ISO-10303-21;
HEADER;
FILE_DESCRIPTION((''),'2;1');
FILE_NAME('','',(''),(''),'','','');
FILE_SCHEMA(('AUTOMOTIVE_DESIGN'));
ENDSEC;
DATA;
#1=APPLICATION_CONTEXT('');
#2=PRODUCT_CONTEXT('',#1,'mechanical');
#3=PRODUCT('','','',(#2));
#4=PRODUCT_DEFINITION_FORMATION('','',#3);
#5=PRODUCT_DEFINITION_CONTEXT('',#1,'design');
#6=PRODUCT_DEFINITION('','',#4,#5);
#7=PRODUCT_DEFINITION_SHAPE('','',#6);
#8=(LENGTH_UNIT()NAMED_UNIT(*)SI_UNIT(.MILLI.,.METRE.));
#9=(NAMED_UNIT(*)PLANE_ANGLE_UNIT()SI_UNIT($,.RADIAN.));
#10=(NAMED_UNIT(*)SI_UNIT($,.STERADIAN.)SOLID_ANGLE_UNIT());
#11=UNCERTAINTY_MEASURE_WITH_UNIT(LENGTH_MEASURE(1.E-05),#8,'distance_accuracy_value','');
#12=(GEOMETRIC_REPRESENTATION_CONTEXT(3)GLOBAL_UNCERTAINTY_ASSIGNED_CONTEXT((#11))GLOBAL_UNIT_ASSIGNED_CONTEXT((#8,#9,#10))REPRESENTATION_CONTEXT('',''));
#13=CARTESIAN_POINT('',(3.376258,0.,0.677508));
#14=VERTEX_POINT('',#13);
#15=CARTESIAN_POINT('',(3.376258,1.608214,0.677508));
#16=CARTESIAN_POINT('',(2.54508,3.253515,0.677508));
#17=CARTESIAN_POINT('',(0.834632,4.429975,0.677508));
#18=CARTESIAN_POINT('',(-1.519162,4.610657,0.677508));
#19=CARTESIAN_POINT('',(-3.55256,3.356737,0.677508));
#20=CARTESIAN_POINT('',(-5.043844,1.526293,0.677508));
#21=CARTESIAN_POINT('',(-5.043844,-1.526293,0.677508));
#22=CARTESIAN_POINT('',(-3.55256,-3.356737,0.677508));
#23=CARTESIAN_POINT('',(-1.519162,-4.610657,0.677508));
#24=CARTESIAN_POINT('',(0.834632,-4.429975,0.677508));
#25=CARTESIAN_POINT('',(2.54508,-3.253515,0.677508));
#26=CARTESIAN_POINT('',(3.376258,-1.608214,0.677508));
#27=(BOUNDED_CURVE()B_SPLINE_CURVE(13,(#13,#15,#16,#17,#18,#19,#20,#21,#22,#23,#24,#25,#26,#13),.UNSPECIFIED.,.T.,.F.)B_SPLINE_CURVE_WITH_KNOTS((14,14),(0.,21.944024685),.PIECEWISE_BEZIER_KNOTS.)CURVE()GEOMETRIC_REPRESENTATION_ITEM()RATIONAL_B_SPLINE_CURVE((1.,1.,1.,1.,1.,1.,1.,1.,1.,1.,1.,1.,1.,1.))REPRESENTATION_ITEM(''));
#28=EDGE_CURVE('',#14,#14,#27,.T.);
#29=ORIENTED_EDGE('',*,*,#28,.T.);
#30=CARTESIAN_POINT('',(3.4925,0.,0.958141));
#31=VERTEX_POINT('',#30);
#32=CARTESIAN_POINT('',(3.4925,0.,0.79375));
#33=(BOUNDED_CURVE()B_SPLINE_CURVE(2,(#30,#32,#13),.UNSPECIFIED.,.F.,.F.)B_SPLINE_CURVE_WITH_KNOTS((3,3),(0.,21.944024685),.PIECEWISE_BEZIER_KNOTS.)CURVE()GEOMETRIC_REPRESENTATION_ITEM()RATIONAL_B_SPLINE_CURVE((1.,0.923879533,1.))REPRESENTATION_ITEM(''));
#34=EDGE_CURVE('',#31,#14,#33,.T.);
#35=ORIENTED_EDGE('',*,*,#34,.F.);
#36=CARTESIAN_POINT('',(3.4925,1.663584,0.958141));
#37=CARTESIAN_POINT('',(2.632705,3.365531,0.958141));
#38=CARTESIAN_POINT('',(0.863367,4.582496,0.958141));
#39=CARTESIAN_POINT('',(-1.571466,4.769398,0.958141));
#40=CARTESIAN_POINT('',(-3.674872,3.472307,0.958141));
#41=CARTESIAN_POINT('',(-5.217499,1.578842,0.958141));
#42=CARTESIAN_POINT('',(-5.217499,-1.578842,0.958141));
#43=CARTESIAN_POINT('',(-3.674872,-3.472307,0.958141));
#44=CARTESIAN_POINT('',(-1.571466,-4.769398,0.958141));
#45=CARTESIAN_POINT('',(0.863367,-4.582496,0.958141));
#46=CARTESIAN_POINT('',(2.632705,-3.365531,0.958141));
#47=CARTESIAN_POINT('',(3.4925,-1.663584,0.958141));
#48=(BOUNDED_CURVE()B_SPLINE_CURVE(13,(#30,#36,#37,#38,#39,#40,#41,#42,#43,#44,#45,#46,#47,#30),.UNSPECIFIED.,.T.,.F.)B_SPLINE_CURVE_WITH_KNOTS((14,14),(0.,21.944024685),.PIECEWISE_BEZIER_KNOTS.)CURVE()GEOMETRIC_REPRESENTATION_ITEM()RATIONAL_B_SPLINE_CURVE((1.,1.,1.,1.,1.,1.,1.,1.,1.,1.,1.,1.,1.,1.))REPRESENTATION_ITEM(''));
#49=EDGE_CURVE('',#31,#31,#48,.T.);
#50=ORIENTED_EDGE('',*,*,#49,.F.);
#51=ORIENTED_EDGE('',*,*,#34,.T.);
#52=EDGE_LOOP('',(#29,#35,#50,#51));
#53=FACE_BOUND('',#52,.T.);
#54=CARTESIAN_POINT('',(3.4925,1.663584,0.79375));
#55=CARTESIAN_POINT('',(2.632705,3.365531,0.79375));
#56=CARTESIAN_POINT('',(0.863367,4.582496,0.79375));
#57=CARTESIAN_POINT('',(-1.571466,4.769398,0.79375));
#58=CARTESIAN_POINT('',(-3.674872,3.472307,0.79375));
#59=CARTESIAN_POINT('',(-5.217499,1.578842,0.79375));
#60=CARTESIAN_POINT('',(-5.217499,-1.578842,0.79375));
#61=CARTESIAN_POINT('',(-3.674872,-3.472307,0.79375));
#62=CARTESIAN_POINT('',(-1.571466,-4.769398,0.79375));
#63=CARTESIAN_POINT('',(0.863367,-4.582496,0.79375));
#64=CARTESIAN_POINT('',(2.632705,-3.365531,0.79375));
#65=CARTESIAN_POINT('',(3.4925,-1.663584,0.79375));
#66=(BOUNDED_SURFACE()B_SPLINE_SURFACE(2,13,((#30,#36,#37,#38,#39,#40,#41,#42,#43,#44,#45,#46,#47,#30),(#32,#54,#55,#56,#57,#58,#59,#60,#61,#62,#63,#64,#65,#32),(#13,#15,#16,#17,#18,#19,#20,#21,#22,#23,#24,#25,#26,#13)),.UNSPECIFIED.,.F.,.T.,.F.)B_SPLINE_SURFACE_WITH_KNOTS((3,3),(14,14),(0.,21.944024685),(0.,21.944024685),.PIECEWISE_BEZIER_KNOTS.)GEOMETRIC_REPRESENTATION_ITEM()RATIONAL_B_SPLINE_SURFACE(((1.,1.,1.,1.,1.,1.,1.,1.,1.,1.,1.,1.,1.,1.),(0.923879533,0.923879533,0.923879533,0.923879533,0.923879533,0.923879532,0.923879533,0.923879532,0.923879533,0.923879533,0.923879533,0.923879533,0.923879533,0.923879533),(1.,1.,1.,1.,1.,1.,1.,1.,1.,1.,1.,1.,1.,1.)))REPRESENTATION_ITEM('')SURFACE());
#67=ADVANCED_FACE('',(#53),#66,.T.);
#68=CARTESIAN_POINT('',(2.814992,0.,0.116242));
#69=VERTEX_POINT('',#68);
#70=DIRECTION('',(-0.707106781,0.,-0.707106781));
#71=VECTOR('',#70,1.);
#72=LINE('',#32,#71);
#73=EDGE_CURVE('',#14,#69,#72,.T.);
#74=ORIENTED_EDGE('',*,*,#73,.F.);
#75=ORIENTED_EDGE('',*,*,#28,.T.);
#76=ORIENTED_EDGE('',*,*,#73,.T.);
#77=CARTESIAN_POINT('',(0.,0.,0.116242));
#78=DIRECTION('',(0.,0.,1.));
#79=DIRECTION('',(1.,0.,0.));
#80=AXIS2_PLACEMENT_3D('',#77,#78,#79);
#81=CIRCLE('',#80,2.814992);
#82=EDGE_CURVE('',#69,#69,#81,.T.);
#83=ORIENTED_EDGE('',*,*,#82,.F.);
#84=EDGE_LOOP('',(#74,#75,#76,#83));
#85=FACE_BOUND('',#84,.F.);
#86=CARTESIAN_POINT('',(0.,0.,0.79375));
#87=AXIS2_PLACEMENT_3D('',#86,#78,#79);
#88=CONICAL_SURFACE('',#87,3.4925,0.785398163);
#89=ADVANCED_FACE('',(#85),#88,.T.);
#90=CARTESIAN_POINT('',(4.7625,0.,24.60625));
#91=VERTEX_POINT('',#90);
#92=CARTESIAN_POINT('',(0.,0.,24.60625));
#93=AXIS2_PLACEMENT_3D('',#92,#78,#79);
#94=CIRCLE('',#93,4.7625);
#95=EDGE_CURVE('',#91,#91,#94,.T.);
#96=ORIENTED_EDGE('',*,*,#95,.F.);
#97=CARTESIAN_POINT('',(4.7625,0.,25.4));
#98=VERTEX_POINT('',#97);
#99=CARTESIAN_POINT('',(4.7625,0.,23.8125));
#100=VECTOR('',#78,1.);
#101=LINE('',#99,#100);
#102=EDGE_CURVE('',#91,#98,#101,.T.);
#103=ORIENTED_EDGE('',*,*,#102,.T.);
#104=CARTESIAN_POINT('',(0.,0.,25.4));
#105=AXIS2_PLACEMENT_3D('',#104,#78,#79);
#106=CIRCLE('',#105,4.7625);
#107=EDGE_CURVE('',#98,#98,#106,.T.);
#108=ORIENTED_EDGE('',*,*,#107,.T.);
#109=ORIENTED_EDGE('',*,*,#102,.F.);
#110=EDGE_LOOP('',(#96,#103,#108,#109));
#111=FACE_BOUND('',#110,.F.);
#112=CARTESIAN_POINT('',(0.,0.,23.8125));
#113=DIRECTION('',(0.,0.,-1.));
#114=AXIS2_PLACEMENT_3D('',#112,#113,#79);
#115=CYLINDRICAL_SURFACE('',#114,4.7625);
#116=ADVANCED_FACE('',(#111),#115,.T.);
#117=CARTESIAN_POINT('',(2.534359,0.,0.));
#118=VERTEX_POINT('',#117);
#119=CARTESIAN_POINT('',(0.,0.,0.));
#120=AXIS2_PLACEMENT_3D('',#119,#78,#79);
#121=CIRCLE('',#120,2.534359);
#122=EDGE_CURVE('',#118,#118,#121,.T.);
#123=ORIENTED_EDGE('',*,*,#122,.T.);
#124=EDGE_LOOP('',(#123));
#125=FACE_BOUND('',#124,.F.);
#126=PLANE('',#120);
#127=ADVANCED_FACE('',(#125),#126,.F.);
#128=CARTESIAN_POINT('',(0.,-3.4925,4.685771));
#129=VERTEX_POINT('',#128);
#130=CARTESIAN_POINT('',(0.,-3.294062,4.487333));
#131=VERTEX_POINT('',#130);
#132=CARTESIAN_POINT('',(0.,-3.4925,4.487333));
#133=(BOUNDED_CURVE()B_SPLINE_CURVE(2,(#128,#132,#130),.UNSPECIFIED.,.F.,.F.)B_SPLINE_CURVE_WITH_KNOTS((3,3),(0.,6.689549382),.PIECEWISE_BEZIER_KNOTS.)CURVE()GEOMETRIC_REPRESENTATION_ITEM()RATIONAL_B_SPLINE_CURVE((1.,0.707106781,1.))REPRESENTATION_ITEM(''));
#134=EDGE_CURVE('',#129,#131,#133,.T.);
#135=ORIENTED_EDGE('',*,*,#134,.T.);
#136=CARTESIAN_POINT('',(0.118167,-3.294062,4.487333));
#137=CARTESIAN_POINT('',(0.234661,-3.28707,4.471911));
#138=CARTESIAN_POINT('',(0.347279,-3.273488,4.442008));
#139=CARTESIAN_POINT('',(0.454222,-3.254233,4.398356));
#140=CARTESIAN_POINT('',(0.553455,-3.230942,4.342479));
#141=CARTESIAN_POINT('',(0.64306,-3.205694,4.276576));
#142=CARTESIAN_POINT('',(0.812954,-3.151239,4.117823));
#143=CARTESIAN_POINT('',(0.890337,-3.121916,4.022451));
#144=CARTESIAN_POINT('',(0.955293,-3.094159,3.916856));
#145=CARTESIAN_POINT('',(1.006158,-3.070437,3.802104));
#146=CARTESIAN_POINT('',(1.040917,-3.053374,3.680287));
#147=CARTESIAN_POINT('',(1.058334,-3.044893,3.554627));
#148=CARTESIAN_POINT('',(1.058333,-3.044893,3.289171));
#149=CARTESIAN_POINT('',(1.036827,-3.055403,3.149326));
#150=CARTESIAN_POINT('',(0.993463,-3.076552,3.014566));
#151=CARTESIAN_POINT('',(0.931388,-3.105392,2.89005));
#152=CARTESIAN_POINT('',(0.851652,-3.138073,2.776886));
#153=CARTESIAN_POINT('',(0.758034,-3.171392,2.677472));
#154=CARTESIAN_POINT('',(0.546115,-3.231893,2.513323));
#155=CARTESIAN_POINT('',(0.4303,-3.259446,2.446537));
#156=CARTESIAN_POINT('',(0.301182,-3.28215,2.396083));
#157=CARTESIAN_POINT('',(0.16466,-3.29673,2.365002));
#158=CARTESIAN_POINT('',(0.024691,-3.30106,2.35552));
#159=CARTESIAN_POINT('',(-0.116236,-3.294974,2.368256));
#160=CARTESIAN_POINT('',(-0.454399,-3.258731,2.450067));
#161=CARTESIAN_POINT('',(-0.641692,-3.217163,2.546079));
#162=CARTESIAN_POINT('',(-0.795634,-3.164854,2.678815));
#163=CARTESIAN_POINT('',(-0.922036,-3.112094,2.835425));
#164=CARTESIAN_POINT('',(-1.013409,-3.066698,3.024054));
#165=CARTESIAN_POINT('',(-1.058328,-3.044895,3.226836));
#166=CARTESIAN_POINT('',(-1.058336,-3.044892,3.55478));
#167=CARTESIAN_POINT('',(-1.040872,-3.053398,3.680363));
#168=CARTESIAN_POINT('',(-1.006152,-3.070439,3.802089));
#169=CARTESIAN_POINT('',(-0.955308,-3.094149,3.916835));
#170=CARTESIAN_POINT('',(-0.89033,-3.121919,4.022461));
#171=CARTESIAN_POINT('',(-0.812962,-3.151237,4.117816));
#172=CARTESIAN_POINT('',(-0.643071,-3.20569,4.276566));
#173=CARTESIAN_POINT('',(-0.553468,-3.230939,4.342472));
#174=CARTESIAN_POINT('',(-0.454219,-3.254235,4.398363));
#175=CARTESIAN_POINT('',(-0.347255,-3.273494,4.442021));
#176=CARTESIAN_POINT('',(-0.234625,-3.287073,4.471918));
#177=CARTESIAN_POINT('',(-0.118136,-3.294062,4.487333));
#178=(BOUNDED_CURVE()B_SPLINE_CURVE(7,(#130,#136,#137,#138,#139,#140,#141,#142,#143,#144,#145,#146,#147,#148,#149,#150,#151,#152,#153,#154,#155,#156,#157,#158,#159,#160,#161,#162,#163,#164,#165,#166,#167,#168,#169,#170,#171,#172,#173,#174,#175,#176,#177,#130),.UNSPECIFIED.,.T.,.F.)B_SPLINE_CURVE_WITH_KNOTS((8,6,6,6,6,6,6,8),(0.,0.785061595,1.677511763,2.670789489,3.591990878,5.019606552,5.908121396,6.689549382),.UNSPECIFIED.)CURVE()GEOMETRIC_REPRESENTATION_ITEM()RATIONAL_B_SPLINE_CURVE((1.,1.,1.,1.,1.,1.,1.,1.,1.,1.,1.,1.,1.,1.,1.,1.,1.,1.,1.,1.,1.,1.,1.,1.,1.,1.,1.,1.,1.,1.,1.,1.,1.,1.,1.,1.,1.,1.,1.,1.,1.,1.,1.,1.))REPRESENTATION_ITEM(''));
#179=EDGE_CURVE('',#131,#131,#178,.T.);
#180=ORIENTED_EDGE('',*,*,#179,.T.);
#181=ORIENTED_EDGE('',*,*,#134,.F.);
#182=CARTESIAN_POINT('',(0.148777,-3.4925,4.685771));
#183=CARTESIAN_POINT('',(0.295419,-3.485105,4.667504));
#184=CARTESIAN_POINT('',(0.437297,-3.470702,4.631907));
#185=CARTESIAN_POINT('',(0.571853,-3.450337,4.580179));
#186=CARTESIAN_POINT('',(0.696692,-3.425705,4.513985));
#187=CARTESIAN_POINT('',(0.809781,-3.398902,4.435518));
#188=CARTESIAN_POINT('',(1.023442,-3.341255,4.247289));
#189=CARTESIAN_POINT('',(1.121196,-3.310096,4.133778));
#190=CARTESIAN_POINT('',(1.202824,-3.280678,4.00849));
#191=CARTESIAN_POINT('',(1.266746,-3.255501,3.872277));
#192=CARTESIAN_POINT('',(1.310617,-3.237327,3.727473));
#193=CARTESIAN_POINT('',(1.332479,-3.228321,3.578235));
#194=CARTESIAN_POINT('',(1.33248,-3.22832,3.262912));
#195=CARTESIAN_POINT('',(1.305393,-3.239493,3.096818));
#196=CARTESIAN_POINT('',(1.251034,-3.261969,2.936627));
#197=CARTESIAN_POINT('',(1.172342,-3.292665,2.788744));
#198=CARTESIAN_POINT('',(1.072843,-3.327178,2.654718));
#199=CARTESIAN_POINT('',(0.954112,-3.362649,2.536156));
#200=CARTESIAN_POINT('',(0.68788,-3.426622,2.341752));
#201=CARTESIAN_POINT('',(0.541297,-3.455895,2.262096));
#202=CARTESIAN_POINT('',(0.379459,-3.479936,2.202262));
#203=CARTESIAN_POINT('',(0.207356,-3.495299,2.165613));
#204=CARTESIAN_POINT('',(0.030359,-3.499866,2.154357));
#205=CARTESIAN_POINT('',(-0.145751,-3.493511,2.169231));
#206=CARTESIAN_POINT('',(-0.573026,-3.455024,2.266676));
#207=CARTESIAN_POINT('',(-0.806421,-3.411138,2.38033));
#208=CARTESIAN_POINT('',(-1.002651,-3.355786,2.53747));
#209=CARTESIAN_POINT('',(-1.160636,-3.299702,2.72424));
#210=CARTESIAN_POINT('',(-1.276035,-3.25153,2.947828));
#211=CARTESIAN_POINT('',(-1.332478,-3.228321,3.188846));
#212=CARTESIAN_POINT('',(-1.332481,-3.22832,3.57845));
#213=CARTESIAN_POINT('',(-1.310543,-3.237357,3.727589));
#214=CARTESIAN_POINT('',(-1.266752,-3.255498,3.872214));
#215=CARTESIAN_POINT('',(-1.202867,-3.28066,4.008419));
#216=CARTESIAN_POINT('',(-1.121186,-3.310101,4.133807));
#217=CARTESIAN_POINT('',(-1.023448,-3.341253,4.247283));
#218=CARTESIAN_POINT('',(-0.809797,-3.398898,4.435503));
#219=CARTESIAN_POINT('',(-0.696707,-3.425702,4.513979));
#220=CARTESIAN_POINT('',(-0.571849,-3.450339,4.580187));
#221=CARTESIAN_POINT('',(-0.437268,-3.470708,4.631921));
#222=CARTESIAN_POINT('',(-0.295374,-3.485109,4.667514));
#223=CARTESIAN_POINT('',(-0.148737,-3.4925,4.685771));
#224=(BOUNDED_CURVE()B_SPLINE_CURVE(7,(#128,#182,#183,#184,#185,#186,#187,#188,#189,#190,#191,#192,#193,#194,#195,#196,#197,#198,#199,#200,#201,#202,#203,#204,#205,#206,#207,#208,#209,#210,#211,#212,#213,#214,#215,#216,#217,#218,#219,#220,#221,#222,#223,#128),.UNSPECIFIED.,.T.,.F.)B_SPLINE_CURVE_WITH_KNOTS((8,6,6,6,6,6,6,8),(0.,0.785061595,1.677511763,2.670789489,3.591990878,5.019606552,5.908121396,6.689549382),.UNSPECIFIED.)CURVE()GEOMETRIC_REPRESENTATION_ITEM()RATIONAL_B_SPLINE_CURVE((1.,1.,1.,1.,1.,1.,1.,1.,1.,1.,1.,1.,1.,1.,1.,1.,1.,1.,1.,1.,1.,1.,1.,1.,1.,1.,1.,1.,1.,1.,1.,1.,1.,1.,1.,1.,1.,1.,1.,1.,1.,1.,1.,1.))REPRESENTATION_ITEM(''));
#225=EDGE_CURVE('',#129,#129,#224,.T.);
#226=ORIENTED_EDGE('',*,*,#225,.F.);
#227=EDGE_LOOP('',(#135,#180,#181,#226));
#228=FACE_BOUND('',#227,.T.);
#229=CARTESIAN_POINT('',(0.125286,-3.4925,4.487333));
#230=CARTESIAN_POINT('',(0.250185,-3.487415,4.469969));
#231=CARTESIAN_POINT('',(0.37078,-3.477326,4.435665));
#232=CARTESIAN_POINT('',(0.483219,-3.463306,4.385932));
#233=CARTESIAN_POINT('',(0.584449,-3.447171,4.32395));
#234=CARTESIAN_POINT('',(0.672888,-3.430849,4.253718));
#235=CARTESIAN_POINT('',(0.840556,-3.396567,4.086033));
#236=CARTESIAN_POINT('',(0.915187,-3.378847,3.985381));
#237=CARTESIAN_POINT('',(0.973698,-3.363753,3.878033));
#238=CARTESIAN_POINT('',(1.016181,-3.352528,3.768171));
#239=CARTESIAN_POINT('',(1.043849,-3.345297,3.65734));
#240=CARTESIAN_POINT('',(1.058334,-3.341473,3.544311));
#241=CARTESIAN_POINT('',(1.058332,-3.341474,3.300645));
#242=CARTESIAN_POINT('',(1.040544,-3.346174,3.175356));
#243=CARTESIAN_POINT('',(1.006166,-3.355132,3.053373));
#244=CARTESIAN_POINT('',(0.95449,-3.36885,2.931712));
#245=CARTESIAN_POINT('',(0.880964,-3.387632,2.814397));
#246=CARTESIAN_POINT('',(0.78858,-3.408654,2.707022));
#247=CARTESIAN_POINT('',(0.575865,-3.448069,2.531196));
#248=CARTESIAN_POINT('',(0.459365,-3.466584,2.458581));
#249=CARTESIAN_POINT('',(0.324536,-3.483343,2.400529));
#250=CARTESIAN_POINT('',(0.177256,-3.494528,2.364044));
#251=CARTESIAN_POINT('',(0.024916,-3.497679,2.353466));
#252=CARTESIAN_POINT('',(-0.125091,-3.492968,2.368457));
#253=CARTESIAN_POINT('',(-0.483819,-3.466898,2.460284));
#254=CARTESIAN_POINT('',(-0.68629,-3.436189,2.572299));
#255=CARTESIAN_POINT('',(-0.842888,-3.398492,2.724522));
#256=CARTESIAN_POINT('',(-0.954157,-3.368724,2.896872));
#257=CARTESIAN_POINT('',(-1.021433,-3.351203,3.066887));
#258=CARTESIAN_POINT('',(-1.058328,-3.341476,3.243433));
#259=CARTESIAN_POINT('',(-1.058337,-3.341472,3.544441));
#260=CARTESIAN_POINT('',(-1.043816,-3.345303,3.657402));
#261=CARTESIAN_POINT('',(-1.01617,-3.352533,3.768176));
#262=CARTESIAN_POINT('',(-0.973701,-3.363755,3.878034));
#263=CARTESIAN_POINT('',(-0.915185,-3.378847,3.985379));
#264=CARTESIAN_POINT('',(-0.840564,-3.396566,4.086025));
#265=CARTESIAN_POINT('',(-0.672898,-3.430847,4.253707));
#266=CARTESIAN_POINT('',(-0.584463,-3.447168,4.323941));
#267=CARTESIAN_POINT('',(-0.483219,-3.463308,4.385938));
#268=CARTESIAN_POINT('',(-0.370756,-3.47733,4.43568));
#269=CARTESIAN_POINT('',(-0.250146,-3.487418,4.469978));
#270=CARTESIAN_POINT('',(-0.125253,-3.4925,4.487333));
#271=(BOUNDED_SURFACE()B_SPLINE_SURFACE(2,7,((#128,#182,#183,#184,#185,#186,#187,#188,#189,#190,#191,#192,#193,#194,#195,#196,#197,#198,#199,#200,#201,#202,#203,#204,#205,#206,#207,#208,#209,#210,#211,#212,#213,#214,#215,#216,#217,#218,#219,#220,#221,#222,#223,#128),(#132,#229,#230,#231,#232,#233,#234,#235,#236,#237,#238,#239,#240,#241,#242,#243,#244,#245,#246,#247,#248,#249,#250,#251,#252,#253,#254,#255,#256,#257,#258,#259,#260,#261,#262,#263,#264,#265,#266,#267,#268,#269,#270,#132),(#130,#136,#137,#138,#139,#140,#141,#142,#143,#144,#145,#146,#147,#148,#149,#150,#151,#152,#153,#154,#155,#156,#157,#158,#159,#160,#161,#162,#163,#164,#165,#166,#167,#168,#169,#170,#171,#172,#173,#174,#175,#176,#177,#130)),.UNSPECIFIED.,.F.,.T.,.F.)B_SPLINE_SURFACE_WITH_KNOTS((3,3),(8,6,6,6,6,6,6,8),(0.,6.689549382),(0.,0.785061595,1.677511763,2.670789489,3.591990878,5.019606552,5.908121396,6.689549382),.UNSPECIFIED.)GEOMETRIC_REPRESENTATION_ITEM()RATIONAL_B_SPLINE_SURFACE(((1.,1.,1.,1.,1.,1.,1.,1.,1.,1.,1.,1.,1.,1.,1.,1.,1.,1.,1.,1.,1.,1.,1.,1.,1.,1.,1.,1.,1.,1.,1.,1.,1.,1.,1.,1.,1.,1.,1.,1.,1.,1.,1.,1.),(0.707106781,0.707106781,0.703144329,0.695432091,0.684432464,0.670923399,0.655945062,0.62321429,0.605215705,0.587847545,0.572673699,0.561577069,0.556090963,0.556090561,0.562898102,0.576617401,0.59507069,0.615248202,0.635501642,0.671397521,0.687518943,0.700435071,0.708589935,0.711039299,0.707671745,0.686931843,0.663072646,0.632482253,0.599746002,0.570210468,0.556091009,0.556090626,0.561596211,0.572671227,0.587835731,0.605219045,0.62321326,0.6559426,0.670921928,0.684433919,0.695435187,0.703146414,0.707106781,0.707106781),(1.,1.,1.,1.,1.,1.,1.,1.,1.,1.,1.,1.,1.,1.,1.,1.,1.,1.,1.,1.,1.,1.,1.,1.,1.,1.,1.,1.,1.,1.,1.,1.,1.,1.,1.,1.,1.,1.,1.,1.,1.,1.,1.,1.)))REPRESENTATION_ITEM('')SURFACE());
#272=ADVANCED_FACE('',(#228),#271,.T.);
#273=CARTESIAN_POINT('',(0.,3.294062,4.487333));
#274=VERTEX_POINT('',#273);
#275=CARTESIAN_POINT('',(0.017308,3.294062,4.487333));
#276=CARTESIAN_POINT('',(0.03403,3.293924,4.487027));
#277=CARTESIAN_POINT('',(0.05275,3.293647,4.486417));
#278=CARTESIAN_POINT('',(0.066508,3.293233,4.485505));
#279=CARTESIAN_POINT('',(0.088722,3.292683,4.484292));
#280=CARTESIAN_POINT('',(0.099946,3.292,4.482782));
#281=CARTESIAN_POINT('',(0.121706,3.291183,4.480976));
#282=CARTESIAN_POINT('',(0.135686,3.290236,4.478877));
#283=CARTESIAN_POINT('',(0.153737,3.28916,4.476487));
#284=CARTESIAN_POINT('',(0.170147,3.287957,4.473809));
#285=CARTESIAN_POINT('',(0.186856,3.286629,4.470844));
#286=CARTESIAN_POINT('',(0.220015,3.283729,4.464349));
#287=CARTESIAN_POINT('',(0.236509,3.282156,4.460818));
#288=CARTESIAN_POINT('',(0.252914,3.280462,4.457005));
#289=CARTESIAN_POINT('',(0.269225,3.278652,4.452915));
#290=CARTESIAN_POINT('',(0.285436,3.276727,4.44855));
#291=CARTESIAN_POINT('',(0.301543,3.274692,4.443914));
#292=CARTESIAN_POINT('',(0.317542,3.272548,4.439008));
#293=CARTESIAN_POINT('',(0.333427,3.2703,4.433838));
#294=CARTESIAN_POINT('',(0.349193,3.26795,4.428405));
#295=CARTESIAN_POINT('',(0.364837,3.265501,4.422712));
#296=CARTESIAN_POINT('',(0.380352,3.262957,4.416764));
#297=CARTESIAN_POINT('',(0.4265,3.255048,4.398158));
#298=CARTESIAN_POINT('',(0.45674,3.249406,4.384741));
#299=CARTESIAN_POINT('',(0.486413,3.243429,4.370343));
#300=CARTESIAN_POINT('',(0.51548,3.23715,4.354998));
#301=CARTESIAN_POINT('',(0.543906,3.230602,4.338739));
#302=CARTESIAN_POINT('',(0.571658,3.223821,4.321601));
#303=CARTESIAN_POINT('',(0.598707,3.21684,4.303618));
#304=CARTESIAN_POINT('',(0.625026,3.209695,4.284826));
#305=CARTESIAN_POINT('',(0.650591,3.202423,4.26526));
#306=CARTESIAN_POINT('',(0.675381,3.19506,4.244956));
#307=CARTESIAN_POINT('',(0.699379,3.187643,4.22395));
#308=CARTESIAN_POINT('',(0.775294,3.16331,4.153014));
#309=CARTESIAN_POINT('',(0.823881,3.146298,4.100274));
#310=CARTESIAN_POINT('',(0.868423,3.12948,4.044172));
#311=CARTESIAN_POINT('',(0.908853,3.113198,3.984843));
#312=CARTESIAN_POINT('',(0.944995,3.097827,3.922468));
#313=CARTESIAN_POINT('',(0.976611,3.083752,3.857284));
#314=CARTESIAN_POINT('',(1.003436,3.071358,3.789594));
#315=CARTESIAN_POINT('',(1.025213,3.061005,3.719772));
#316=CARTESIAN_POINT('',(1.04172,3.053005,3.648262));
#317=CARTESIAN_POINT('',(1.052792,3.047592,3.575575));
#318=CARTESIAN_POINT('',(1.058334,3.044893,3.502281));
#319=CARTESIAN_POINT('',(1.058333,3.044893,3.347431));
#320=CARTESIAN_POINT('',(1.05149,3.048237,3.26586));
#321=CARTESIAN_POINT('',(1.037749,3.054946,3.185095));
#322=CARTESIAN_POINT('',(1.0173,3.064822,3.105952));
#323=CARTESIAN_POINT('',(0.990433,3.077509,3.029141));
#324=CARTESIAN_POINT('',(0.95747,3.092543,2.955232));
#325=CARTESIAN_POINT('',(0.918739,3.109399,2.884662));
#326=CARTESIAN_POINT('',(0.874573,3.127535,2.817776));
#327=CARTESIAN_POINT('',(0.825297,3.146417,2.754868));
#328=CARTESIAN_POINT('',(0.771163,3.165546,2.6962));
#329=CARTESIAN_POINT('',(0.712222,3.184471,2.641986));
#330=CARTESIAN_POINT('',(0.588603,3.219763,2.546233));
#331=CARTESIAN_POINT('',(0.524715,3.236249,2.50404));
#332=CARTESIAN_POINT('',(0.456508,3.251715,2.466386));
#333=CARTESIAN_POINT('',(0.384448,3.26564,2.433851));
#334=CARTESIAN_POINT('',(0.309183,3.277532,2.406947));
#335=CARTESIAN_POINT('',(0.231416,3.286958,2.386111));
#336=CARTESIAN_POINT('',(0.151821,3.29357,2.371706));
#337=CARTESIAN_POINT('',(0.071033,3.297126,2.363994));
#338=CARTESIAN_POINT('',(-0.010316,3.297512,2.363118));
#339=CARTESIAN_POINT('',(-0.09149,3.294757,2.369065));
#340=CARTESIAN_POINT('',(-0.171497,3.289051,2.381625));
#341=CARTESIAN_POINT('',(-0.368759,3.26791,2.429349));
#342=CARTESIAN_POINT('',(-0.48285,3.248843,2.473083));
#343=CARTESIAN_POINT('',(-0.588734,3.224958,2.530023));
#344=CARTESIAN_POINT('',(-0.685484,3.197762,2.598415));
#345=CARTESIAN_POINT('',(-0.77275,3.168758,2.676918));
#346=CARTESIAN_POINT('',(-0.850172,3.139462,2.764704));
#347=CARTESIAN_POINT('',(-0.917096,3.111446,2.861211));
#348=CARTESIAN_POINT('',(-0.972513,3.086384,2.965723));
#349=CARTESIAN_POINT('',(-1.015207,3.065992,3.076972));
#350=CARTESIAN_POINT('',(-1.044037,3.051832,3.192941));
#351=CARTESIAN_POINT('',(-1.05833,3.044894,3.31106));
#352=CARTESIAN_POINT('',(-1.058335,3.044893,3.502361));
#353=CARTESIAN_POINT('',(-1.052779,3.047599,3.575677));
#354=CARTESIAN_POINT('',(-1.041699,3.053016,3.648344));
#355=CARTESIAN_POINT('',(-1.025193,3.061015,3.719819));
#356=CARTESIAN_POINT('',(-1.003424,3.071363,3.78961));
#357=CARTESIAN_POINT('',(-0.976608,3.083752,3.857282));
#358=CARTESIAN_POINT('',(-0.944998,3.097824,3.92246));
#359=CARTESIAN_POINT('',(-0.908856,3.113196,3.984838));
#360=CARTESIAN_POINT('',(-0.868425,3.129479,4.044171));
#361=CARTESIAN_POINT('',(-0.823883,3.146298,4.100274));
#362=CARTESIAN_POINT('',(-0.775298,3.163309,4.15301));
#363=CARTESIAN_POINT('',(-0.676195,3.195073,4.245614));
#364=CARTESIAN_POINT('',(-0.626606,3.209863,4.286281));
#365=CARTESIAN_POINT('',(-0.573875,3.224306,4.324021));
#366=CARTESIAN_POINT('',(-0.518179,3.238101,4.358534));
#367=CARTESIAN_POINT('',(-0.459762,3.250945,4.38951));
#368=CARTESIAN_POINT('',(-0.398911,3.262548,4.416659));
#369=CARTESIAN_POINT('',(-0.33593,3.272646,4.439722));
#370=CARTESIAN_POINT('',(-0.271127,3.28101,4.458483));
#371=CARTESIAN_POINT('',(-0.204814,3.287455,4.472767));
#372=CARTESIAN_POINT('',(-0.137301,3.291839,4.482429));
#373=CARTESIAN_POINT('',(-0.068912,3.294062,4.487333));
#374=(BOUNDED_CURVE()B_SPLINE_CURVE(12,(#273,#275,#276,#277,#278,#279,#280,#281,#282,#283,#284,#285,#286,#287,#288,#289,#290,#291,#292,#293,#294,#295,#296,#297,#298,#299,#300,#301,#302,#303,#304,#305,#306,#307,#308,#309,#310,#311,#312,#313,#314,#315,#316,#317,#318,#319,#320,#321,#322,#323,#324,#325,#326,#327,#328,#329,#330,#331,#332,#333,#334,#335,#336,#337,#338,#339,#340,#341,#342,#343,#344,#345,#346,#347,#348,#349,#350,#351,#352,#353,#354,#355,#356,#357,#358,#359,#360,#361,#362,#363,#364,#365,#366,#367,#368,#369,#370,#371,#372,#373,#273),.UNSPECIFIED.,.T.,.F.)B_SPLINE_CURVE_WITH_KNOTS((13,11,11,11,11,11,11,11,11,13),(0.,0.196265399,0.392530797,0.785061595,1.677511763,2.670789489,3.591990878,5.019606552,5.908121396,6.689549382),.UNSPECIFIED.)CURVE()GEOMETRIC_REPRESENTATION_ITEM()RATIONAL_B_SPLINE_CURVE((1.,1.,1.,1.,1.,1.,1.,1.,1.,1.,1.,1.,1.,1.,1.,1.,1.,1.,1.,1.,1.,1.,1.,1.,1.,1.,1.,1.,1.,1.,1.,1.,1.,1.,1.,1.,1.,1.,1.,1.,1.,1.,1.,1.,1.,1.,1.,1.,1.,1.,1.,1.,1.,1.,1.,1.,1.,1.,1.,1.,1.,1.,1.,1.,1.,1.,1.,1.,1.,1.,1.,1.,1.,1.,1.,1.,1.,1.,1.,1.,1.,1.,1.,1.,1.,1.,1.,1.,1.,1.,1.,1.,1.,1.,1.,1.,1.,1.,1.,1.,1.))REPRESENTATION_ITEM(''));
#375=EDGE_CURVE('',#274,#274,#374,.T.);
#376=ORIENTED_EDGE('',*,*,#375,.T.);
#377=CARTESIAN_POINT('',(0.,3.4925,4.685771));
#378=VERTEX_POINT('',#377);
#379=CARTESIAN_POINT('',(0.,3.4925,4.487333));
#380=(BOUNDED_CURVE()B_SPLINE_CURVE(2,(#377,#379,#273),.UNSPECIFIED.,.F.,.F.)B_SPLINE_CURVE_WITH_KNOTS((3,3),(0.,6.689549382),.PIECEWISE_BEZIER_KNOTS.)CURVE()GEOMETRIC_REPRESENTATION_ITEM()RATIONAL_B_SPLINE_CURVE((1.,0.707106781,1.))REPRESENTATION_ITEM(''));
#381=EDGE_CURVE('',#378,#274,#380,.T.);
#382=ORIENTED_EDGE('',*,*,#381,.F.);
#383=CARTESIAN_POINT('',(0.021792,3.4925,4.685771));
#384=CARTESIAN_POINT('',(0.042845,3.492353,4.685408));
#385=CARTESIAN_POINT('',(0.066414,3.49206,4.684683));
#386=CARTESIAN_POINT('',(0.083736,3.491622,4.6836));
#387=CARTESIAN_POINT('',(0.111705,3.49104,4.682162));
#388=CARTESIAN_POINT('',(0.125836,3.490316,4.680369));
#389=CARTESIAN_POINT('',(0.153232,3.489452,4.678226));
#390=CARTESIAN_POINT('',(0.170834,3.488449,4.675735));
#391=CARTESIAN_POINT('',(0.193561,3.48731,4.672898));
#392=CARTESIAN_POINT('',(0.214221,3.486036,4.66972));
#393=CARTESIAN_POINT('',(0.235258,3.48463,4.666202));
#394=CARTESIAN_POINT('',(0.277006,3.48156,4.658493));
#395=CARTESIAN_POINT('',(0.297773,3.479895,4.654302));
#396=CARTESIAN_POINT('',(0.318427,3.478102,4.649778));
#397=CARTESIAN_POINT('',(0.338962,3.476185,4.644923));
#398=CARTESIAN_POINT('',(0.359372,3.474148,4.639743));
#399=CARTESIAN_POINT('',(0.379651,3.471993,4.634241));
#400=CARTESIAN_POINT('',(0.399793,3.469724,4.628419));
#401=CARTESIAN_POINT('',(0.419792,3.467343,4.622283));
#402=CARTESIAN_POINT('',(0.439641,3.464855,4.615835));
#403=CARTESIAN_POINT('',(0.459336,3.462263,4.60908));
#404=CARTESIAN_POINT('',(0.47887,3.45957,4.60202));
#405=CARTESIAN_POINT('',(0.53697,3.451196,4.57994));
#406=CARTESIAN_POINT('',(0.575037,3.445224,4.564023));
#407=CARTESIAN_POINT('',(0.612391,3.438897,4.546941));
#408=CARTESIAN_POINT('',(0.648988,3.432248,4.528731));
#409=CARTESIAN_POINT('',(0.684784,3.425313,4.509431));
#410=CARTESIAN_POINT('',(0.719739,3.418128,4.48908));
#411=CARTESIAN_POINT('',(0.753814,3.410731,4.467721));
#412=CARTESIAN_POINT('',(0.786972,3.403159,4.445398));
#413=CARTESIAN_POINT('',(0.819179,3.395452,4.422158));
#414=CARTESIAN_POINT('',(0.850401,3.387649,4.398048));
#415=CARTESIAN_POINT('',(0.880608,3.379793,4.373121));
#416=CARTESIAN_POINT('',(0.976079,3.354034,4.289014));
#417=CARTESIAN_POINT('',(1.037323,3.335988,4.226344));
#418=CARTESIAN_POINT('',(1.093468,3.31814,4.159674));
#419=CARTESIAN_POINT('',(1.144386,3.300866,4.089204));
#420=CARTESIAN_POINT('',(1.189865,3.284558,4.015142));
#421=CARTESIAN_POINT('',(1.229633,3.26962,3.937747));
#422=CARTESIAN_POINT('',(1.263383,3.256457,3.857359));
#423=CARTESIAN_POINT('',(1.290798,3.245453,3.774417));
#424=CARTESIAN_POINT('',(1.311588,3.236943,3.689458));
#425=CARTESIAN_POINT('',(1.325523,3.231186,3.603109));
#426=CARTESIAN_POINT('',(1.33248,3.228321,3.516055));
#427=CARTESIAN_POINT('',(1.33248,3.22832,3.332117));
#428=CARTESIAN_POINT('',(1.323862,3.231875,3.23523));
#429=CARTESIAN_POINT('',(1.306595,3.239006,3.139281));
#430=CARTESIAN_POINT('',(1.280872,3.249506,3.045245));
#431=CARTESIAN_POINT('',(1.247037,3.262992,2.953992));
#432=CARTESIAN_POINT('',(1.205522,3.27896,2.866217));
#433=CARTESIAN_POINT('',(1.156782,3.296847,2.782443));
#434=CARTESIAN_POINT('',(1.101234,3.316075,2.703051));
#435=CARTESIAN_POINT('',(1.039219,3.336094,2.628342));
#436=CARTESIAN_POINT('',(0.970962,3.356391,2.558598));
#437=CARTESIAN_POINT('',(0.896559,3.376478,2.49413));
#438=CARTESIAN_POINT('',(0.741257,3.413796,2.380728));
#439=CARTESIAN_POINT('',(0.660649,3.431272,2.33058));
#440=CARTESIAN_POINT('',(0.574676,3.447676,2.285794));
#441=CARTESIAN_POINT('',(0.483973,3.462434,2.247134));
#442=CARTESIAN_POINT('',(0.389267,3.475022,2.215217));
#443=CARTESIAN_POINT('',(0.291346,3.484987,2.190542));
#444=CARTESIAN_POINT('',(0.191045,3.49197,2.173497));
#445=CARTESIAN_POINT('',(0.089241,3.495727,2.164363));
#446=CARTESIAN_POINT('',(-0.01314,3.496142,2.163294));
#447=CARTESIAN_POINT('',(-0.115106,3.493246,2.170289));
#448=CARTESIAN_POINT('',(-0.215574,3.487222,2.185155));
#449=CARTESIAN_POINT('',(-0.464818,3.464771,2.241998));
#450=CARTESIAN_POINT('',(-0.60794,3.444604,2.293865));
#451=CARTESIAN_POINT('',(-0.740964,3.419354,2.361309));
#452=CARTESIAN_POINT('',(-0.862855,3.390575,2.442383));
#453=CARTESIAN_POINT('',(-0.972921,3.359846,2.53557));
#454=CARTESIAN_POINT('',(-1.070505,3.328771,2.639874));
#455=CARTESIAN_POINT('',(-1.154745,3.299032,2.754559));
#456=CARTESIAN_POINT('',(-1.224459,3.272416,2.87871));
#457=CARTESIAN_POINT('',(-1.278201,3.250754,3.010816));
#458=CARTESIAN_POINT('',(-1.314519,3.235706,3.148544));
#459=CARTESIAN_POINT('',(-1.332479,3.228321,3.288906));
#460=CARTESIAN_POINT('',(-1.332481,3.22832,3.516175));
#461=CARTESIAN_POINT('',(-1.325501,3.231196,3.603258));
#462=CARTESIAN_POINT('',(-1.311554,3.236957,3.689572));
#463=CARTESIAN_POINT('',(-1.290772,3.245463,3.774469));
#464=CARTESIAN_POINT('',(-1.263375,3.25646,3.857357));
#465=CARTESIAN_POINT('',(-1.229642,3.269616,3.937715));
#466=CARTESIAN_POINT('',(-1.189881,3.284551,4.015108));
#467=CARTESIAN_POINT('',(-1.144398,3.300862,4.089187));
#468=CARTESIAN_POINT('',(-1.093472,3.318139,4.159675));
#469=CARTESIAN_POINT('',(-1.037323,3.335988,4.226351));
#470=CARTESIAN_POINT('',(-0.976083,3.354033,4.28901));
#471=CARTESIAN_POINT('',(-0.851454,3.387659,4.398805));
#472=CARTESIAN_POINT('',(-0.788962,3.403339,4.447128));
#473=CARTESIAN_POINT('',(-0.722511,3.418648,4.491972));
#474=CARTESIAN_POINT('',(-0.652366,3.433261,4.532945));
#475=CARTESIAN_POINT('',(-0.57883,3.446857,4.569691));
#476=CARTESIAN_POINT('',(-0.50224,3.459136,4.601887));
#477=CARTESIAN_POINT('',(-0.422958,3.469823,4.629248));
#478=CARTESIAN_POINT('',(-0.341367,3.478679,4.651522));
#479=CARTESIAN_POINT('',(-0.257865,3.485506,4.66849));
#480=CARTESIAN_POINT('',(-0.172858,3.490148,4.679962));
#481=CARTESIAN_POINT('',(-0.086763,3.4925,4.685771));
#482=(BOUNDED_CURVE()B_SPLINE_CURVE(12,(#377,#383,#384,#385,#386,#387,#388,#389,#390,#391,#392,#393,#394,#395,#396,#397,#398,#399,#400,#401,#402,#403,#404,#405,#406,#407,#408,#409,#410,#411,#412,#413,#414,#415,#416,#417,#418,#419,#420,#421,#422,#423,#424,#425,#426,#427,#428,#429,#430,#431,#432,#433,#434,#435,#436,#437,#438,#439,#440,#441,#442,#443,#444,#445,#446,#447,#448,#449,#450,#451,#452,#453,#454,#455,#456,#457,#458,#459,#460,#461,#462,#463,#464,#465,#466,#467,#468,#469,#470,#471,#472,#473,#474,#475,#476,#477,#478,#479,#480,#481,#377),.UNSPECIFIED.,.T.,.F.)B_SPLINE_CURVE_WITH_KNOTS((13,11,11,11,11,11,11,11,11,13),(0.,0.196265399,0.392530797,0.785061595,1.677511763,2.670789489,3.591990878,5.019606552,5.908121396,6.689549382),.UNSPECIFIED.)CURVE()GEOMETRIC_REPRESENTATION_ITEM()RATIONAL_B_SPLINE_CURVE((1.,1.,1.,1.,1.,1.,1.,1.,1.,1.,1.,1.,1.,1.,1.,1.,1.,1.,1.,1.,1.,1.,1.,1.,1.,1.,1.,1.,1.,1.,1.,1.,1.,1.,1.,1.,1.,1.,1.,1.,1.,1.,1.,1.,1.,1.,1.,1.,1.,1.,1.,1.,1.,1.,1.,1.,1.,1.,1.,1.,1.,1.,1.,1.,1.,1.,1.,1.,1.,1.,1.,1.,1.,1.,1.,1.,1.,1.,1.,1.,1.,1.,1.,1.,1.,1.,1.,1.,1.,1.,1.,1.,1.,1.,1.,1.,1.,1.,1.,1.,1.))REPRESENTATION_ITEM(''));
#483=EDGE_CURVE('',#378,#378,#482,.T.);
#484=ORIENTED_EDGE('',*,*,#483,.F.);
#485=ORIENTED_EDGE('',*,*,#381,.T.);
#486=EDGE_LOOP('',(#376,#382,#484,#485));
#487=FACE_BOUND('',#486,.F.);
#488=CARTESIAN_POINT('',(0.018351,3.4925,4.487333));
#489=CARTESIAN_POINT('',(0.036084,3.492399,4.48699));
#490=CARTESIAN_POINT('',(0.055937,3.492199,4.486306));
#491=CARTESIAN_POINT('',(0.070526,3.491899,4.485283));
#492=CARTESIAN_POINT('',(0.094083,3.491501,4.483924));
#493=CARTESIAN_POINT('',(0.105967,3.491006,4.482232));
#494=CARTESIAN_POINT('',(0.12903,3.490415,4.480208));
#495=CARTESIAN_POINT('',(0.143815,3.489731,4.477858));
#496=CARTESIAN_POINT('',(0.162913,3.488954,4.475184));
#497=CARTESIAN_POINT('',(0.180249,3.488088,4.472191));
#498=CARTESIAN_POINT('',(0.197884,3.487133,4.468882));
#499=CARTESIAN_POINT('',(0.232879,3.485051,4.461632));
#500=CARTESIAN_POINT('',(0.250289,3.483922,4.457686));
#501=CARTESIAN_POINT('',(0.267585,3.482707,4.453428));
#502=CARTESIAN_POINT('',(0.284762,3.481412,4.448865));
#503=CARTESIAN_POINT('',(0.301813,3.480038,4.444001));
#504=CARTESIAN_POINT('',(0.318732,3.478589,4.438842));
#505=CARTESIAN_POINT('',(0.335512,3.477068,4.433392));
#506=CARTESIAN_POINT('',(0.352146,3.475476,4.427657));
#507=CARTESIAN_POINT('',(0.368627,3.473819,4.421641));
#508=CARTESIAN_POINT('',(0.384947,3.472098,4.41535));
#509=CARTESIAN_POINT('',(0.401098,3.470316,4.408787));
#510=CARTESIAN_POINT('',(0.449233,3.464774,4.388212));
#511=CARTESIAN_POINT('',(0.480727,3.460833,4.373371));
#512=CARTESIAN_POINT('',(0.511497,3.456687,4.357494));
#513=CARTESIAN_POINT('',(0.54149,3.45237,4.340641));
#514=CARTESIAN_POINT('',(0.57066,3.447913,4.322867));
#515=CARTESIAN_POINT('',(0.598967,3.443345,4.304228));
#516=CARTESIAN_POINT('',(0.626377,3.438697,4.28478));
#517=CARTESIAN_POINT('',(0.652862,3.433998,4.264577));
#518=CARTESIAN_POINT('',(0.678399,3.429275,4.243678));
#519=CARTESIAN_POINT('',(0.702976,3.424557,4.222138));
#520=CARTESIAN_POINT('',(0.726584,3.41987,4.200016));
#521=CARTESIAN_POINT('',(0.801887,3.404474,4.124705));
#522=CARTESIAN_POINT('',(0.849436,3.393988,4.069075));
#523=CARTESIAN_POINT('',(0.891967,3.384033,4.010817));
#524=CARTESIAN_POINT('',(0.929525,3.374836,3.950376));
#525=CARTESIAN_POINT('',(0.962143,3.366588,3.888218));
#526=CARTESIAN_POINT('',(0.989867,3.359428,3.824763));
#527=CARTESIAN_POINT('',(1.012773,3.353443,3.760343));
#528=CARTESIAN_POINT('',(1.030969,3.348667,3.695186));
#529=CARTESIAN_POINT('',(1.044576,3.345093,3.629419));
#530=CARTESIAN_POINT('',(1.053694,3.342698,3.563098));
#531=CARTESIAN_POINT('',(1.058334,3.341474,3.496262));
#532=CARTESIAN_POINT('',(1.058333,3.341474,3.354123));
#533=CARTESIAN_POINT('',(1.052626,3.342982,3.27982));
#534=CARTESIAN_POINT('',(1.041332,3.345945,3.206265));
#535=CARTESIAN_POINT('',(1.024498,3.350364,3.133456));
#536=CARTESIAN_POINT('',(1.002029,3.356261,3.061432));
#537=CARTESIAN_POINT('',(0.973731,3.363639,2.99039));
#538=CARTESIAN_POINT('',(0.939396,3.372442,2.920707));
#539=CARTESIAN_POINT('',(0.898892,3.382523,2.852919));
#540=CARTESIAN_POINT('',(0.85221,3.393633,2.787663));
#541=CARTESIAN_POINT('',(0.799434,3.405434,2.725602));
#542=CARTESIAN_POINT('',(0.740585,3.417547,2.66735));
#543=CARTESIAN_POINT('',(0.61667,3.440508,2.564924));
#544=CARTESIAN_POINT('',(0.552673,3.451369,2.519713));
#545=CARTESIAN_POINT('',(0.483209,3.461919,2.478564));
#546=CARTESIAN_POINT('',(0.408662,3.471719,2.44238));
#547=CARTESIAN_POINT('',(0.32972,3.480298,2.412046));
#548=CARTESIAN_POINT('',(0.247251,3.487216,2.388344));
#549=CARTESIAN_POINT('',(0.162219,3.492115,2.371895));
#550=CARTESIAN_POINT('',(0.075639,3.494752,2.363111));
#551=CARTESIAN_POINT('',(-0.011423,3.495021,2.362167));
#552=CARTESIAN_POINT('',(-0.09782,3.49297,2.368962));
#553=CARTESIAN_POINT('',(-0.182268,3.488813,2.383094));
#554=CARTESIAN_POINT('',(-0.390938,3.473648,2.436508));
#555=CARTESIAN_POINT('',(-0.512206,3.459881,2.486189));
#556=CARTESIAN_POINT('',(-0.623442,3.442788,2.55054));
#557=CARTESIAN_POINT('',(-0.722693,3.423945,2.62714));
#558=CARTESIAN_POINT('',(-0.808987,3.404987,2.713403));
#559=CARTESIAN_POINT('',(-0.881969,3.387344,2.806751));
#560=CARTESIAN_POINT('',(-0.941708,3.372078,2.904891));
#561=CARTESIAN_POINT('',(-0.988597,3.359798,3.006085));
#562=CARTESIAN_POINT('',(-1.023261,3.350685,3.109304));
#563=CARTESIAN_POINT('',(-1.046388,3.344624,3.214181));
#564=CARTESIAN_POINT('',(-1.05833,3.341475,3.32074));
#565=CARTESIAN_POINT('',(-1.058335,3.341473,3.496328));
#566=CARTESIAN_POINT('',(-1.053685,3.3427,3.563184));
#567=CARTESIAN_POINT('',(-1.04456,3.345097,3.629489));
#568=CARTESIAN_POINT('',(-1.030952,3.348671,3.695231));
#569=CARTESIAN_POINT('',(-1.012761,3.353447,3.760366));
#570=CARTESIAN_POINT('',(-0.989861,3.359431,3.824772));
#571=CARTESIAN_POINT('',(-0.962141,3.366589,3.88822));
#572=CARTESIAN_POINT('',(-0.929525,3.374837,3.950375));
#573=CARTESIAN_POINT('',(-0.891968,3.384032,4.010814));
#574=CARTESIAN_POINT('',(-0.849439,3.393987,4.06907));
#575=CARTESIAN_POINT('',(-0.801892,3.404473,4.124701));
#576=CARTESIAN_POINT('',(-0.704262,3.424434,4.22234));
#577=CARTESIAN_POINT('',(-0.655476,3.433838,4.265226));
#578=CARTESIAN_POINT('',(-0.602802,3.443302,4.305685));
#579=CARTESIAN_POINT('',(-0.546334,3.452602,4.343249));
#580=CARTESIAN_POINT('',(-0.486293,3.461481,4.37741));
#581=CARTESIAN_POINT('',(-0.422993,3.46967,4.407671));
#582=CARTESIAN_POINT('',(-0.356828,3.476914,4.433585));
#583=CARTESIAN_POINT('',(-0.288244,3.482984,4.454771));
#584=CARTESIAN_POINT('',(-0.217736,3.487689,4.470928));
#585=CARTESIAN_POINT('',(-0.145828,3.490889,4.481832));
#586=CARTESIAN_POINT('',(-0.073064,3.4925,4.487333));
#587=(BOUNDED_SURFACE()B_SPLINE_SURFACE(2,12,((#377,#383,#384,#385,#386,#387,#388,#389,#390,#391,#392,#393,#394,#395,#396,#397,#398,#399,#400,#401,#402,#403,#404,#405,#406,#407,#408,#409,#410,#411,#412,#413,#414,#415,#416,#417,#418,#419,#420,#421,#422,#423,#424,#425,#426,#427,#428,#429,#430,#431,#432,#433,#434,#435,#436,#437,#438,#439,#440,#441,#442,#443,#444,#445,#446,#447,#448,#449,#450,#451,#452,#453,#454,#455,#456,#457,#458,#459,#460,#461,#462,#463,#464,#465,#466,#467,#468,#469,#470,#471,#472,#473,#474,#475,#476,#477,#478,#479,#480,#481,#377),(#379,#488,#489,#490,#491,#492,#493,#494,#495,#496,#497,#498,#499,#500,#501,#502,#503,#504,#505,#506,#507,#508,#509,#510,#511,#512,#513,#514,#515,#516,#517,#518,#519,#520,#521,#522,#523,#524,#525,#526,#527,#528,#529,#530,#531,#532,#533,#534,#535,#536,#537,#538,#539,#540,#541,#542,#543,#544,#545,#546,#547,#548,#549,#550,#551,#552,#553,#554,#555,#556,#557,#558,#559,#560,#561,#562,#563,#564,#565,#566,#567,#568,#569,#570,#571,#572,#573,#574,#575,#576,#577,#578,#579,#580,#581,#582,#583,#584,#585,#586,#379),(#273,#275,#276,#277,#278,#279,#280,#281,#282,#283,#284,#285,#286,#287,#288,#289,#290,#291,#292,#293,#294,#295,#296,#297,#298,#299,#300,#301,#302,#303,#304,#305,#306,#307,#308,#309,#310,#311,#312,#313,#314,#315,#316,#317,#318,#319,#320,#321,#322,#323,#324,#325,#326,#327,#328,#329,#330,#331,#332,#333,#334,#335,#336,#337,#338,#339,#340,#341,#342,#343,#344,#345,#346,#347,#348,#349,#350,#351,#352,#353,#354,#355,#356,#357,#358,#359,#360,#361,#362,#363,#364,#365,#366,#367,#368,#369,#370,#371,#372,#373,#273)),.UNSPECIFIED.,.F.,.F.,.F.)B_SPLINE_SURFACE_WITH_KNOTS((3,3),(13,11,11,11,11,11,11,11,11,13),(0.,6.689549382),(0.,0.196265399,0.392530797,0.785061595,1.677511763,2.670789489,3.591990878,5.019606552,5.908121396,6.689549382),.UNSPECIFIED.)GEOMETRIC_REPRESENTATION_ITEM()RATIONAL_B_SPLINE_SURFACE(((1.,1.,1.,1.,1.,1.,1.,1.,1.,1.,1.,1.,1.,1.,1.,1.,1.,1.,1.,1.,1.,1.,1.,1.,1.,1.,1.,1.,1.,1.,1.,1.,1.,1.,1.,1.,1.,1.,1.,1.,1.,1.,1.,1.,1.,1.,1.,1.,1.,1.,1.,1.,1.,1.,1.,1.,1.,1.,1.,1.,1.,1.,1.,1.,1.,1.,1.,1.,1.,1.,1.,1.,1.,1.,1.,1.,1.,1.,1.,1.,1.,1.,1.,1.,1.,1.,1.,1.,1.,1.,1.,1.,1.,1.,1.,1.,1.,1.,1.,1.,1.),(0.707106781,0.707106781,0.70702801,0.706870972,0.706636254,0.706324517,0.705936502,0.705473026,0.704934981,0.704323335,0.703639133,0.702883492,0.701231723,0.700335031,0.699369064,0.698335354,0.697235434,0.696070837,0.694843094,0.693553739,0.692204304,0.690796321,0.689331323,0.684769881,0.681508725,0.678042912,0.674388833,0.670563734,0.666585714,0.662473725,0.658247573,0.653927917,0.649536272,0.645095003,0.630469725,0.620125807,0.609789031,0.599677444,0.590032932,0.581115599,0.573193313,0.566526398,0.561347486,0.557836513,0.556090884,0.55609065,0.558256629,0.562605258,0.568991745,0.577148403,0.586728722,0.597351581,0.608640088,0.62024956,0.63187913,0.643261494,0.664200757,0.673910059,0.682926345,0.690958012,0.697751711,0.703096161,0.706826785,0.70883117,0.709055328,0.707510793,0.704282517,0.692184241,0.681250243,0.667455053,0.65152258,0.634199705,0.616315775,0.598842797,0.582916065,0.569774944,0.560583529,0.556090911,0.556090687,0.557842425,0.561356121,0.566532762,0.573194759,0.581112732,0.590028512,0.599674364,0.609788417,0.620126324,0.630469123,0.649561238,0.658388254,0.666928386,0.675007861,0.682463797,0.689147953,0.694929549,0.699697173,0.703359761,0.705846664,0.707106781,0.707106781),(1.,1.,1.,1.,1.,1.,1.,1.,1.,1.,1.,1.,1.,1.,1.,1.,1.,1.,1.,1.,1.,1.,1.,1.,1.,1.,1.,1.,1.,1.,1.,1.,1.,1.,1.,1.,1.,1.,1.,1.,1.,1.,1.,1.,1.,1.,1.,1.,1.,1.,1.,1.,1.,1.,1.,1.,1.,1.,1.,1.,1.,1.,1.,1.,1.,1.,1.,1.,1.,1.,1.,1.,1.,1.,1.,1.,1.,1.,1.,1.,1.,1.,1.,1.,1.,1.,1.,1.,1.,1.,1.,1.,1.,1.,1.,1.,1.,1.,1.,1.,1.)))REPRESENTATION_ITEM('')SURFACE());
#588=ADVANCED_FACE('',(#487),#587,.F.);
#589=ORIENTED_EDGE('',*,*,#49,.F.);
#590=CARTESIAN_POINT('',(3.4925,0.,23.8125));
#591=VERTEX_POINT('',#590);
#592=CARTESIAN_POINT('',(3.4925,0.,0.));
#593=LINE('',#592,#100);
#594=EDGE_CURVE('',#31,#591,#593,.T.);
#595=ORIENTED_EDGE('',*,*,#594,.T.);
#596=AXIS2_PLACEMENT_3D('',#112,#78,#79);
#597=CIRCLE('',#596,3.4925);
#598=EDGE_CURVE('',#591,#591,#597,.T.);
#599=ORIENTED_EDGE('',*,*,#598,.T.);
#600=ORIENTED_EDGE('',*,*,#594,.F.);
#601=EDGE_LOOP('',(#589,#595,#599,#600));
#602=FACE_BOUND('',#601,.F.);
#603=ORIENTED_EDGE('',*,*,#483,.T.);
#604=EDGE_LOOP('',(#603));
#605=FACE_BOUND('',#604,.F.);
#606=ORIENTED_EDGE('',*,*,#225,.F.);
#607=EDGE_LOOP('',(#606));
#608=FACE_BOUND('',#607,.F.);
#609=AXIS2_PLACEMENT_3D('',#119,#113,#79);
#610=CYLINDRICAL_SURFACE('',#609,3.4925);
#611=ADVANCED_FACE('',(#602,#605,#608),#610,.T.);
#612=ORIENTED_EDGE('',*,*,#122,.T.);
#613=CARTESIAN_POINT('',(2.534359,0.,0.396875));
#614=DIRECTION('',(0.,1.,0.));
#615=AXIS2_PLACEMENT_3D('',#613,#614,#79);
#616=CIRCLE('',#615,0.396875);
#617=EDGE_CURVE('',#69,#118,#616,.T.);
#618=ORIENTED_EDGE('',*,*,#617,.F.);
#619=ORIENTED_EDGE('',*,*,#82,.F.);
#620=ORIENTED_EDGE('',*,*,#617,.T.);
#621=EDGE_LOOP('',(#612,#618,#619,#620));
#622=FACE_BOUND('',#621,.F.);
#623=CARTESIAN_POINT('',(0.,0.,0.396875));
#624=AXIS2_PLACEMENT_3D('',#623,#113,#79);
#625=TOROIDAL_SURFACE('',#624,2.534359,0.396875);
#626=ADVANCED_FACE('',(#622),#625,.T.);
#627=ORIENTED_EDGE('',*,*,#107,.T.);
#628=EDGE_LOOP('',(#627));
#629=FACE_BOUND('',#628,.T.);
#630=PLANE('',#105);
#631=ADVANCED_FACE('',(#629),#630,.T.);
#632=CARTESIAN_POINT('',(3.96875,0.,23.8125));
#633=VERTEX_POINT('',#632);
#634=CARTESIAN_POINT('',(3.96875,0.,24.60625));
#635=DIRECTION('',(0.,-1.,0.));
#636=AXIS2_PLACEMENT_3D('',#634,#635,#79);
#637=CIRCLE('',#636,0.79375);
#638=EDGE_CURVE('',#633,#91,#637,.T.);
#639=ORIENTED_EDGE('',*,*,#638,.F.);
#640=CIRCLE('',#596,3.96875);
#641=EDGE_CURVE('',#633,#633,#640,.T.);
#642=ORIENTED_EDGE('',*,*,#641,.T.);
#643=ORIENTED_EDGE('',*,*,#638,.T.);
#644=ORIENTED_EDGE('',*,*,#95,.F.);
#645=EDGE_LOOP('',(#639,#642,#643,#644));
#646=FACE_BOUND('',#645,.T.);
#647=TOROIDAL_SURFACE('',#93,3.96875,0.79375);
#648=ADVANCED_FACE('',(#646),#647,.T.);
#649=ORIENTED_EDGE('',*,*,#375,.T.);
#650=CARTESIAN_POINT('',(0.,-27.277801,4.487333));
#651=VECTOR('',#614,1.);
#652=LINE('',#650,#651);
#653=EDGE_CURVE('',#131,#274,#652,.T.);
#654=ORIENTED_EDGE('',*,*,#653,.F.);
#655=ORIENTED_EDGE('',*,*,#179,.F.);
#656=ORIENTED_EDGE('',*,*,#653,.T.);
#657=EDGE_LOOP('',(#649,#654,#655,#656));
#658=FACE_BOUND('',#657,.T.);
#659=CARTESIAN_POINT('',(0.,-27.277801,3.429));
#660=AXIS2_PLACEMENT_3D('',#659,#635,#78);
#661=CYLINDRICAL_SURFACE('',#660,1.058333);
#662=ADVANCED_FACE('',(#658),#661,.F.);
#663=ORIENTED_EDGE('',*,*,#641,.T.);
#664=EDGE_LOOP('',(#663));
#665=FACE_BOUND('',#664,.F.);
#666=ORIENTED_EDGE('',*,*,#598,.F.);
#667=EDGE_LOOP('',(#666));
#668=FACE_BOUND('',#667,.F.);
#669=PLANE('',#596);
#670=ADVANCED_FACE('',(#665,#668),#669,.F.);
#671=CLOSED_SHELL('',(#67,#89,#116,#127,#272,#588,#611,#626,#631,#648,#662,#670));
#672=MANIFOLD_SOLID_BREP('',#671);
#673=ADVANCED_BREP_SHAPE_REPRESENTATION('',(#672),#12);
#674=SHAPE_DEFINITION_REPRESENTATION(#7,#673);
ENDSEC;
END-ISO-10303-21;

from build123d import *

# Parameters (mm, degrees)
SKETCH1_R               = 3.4925
BOSS_EXTRUDE1_DEPTH     = 23.8125
SKETCH2_R               = 4.7625
BOSS_EXTRUDE2_DEPTH     = 1.5875
CUT_EXTRUDE1_DEPTH      = 27.277800755
CUT_EXTRUDE1_DEPTH_BACK = 27.277800755
SKETCH3_R               = 1.058333333
FILLET1_R               = 0.1984375
FILLET3_R               = 0.79375
CHAMFER1_SIZE           = 0.79375
FILLET4_R               = 0.396875


with BuildPart() as part:
    # Sketch1 → Boss-Extrude1 (new body)
    with BuildSketch(Plane.XY):
        Circle(SKETCH1_R)
    extrude(amount=BOSS_EXTRUDE1_DEPTH)

    # Sketch2 → Boss-Extrude2 (add)
    with BuildSketch(Plane.XY.offset(23.8125)):
        Circle(SKETCH2_R)
    extrude(amount=BOSS_EXTRUDE2_DEPTH)

    # Sketch3 → Cut-Extrude1 (cut, two sides: drawn at the far end of the back side and taken through both)
    with BuildSketch(Plane(origin=(0, 0, 0), x_dir=(1, 0, 0), z_dir=(0, 1, 0)).offset(-CUT_EXTRUDE1_DEPTH_BACK)):
        with Locations(Location((0, -3.429, 0), (0, 0, 270))):
            Circle(SKETCH3_R)
    extrude(amount=CUT_EXTRUDE1_DEPTH + CUT_EXTRUDE1_DEPTH_BACK, mode=Mode.SUBTRACT)

    # Fillet1
    fillet1_edges = [part.edges().sort_by_distance(p)[0] for p in [
        (0, 3.492500015, 2.370666678),
        (0, -3.492500015, 2.370666678),
    ]]
    fillet(fillet1_edges, radius=FILLET1_R)

    # Fillet3
    fillet3_edges = [part.edges().sort_by_distance(p)[0] for p in [
        (-4.7625, 0, 23.8125),
    ]]
    fillet(fillet3_edges, radius=FILLET3_R)

    # Chamfer1
    chamfer1_edges = [part.edges().sort_by_distance(p)[0] for p in [
        (-3.4925, 0, 0),
    ]]
    chamfer(chamfer1_edges, length=CHAMFER1_SIZE)

    # Fillet4
    fillet4_edges = [part.edges().sort_by_distance(p)[0] for p in [
        (-3.4925, 0, 0.79375),
        (-2.69875, 0, 0),
    ]]
    fillet(fillet4_edges, radius=FILLET4_R)


solid = part.part
